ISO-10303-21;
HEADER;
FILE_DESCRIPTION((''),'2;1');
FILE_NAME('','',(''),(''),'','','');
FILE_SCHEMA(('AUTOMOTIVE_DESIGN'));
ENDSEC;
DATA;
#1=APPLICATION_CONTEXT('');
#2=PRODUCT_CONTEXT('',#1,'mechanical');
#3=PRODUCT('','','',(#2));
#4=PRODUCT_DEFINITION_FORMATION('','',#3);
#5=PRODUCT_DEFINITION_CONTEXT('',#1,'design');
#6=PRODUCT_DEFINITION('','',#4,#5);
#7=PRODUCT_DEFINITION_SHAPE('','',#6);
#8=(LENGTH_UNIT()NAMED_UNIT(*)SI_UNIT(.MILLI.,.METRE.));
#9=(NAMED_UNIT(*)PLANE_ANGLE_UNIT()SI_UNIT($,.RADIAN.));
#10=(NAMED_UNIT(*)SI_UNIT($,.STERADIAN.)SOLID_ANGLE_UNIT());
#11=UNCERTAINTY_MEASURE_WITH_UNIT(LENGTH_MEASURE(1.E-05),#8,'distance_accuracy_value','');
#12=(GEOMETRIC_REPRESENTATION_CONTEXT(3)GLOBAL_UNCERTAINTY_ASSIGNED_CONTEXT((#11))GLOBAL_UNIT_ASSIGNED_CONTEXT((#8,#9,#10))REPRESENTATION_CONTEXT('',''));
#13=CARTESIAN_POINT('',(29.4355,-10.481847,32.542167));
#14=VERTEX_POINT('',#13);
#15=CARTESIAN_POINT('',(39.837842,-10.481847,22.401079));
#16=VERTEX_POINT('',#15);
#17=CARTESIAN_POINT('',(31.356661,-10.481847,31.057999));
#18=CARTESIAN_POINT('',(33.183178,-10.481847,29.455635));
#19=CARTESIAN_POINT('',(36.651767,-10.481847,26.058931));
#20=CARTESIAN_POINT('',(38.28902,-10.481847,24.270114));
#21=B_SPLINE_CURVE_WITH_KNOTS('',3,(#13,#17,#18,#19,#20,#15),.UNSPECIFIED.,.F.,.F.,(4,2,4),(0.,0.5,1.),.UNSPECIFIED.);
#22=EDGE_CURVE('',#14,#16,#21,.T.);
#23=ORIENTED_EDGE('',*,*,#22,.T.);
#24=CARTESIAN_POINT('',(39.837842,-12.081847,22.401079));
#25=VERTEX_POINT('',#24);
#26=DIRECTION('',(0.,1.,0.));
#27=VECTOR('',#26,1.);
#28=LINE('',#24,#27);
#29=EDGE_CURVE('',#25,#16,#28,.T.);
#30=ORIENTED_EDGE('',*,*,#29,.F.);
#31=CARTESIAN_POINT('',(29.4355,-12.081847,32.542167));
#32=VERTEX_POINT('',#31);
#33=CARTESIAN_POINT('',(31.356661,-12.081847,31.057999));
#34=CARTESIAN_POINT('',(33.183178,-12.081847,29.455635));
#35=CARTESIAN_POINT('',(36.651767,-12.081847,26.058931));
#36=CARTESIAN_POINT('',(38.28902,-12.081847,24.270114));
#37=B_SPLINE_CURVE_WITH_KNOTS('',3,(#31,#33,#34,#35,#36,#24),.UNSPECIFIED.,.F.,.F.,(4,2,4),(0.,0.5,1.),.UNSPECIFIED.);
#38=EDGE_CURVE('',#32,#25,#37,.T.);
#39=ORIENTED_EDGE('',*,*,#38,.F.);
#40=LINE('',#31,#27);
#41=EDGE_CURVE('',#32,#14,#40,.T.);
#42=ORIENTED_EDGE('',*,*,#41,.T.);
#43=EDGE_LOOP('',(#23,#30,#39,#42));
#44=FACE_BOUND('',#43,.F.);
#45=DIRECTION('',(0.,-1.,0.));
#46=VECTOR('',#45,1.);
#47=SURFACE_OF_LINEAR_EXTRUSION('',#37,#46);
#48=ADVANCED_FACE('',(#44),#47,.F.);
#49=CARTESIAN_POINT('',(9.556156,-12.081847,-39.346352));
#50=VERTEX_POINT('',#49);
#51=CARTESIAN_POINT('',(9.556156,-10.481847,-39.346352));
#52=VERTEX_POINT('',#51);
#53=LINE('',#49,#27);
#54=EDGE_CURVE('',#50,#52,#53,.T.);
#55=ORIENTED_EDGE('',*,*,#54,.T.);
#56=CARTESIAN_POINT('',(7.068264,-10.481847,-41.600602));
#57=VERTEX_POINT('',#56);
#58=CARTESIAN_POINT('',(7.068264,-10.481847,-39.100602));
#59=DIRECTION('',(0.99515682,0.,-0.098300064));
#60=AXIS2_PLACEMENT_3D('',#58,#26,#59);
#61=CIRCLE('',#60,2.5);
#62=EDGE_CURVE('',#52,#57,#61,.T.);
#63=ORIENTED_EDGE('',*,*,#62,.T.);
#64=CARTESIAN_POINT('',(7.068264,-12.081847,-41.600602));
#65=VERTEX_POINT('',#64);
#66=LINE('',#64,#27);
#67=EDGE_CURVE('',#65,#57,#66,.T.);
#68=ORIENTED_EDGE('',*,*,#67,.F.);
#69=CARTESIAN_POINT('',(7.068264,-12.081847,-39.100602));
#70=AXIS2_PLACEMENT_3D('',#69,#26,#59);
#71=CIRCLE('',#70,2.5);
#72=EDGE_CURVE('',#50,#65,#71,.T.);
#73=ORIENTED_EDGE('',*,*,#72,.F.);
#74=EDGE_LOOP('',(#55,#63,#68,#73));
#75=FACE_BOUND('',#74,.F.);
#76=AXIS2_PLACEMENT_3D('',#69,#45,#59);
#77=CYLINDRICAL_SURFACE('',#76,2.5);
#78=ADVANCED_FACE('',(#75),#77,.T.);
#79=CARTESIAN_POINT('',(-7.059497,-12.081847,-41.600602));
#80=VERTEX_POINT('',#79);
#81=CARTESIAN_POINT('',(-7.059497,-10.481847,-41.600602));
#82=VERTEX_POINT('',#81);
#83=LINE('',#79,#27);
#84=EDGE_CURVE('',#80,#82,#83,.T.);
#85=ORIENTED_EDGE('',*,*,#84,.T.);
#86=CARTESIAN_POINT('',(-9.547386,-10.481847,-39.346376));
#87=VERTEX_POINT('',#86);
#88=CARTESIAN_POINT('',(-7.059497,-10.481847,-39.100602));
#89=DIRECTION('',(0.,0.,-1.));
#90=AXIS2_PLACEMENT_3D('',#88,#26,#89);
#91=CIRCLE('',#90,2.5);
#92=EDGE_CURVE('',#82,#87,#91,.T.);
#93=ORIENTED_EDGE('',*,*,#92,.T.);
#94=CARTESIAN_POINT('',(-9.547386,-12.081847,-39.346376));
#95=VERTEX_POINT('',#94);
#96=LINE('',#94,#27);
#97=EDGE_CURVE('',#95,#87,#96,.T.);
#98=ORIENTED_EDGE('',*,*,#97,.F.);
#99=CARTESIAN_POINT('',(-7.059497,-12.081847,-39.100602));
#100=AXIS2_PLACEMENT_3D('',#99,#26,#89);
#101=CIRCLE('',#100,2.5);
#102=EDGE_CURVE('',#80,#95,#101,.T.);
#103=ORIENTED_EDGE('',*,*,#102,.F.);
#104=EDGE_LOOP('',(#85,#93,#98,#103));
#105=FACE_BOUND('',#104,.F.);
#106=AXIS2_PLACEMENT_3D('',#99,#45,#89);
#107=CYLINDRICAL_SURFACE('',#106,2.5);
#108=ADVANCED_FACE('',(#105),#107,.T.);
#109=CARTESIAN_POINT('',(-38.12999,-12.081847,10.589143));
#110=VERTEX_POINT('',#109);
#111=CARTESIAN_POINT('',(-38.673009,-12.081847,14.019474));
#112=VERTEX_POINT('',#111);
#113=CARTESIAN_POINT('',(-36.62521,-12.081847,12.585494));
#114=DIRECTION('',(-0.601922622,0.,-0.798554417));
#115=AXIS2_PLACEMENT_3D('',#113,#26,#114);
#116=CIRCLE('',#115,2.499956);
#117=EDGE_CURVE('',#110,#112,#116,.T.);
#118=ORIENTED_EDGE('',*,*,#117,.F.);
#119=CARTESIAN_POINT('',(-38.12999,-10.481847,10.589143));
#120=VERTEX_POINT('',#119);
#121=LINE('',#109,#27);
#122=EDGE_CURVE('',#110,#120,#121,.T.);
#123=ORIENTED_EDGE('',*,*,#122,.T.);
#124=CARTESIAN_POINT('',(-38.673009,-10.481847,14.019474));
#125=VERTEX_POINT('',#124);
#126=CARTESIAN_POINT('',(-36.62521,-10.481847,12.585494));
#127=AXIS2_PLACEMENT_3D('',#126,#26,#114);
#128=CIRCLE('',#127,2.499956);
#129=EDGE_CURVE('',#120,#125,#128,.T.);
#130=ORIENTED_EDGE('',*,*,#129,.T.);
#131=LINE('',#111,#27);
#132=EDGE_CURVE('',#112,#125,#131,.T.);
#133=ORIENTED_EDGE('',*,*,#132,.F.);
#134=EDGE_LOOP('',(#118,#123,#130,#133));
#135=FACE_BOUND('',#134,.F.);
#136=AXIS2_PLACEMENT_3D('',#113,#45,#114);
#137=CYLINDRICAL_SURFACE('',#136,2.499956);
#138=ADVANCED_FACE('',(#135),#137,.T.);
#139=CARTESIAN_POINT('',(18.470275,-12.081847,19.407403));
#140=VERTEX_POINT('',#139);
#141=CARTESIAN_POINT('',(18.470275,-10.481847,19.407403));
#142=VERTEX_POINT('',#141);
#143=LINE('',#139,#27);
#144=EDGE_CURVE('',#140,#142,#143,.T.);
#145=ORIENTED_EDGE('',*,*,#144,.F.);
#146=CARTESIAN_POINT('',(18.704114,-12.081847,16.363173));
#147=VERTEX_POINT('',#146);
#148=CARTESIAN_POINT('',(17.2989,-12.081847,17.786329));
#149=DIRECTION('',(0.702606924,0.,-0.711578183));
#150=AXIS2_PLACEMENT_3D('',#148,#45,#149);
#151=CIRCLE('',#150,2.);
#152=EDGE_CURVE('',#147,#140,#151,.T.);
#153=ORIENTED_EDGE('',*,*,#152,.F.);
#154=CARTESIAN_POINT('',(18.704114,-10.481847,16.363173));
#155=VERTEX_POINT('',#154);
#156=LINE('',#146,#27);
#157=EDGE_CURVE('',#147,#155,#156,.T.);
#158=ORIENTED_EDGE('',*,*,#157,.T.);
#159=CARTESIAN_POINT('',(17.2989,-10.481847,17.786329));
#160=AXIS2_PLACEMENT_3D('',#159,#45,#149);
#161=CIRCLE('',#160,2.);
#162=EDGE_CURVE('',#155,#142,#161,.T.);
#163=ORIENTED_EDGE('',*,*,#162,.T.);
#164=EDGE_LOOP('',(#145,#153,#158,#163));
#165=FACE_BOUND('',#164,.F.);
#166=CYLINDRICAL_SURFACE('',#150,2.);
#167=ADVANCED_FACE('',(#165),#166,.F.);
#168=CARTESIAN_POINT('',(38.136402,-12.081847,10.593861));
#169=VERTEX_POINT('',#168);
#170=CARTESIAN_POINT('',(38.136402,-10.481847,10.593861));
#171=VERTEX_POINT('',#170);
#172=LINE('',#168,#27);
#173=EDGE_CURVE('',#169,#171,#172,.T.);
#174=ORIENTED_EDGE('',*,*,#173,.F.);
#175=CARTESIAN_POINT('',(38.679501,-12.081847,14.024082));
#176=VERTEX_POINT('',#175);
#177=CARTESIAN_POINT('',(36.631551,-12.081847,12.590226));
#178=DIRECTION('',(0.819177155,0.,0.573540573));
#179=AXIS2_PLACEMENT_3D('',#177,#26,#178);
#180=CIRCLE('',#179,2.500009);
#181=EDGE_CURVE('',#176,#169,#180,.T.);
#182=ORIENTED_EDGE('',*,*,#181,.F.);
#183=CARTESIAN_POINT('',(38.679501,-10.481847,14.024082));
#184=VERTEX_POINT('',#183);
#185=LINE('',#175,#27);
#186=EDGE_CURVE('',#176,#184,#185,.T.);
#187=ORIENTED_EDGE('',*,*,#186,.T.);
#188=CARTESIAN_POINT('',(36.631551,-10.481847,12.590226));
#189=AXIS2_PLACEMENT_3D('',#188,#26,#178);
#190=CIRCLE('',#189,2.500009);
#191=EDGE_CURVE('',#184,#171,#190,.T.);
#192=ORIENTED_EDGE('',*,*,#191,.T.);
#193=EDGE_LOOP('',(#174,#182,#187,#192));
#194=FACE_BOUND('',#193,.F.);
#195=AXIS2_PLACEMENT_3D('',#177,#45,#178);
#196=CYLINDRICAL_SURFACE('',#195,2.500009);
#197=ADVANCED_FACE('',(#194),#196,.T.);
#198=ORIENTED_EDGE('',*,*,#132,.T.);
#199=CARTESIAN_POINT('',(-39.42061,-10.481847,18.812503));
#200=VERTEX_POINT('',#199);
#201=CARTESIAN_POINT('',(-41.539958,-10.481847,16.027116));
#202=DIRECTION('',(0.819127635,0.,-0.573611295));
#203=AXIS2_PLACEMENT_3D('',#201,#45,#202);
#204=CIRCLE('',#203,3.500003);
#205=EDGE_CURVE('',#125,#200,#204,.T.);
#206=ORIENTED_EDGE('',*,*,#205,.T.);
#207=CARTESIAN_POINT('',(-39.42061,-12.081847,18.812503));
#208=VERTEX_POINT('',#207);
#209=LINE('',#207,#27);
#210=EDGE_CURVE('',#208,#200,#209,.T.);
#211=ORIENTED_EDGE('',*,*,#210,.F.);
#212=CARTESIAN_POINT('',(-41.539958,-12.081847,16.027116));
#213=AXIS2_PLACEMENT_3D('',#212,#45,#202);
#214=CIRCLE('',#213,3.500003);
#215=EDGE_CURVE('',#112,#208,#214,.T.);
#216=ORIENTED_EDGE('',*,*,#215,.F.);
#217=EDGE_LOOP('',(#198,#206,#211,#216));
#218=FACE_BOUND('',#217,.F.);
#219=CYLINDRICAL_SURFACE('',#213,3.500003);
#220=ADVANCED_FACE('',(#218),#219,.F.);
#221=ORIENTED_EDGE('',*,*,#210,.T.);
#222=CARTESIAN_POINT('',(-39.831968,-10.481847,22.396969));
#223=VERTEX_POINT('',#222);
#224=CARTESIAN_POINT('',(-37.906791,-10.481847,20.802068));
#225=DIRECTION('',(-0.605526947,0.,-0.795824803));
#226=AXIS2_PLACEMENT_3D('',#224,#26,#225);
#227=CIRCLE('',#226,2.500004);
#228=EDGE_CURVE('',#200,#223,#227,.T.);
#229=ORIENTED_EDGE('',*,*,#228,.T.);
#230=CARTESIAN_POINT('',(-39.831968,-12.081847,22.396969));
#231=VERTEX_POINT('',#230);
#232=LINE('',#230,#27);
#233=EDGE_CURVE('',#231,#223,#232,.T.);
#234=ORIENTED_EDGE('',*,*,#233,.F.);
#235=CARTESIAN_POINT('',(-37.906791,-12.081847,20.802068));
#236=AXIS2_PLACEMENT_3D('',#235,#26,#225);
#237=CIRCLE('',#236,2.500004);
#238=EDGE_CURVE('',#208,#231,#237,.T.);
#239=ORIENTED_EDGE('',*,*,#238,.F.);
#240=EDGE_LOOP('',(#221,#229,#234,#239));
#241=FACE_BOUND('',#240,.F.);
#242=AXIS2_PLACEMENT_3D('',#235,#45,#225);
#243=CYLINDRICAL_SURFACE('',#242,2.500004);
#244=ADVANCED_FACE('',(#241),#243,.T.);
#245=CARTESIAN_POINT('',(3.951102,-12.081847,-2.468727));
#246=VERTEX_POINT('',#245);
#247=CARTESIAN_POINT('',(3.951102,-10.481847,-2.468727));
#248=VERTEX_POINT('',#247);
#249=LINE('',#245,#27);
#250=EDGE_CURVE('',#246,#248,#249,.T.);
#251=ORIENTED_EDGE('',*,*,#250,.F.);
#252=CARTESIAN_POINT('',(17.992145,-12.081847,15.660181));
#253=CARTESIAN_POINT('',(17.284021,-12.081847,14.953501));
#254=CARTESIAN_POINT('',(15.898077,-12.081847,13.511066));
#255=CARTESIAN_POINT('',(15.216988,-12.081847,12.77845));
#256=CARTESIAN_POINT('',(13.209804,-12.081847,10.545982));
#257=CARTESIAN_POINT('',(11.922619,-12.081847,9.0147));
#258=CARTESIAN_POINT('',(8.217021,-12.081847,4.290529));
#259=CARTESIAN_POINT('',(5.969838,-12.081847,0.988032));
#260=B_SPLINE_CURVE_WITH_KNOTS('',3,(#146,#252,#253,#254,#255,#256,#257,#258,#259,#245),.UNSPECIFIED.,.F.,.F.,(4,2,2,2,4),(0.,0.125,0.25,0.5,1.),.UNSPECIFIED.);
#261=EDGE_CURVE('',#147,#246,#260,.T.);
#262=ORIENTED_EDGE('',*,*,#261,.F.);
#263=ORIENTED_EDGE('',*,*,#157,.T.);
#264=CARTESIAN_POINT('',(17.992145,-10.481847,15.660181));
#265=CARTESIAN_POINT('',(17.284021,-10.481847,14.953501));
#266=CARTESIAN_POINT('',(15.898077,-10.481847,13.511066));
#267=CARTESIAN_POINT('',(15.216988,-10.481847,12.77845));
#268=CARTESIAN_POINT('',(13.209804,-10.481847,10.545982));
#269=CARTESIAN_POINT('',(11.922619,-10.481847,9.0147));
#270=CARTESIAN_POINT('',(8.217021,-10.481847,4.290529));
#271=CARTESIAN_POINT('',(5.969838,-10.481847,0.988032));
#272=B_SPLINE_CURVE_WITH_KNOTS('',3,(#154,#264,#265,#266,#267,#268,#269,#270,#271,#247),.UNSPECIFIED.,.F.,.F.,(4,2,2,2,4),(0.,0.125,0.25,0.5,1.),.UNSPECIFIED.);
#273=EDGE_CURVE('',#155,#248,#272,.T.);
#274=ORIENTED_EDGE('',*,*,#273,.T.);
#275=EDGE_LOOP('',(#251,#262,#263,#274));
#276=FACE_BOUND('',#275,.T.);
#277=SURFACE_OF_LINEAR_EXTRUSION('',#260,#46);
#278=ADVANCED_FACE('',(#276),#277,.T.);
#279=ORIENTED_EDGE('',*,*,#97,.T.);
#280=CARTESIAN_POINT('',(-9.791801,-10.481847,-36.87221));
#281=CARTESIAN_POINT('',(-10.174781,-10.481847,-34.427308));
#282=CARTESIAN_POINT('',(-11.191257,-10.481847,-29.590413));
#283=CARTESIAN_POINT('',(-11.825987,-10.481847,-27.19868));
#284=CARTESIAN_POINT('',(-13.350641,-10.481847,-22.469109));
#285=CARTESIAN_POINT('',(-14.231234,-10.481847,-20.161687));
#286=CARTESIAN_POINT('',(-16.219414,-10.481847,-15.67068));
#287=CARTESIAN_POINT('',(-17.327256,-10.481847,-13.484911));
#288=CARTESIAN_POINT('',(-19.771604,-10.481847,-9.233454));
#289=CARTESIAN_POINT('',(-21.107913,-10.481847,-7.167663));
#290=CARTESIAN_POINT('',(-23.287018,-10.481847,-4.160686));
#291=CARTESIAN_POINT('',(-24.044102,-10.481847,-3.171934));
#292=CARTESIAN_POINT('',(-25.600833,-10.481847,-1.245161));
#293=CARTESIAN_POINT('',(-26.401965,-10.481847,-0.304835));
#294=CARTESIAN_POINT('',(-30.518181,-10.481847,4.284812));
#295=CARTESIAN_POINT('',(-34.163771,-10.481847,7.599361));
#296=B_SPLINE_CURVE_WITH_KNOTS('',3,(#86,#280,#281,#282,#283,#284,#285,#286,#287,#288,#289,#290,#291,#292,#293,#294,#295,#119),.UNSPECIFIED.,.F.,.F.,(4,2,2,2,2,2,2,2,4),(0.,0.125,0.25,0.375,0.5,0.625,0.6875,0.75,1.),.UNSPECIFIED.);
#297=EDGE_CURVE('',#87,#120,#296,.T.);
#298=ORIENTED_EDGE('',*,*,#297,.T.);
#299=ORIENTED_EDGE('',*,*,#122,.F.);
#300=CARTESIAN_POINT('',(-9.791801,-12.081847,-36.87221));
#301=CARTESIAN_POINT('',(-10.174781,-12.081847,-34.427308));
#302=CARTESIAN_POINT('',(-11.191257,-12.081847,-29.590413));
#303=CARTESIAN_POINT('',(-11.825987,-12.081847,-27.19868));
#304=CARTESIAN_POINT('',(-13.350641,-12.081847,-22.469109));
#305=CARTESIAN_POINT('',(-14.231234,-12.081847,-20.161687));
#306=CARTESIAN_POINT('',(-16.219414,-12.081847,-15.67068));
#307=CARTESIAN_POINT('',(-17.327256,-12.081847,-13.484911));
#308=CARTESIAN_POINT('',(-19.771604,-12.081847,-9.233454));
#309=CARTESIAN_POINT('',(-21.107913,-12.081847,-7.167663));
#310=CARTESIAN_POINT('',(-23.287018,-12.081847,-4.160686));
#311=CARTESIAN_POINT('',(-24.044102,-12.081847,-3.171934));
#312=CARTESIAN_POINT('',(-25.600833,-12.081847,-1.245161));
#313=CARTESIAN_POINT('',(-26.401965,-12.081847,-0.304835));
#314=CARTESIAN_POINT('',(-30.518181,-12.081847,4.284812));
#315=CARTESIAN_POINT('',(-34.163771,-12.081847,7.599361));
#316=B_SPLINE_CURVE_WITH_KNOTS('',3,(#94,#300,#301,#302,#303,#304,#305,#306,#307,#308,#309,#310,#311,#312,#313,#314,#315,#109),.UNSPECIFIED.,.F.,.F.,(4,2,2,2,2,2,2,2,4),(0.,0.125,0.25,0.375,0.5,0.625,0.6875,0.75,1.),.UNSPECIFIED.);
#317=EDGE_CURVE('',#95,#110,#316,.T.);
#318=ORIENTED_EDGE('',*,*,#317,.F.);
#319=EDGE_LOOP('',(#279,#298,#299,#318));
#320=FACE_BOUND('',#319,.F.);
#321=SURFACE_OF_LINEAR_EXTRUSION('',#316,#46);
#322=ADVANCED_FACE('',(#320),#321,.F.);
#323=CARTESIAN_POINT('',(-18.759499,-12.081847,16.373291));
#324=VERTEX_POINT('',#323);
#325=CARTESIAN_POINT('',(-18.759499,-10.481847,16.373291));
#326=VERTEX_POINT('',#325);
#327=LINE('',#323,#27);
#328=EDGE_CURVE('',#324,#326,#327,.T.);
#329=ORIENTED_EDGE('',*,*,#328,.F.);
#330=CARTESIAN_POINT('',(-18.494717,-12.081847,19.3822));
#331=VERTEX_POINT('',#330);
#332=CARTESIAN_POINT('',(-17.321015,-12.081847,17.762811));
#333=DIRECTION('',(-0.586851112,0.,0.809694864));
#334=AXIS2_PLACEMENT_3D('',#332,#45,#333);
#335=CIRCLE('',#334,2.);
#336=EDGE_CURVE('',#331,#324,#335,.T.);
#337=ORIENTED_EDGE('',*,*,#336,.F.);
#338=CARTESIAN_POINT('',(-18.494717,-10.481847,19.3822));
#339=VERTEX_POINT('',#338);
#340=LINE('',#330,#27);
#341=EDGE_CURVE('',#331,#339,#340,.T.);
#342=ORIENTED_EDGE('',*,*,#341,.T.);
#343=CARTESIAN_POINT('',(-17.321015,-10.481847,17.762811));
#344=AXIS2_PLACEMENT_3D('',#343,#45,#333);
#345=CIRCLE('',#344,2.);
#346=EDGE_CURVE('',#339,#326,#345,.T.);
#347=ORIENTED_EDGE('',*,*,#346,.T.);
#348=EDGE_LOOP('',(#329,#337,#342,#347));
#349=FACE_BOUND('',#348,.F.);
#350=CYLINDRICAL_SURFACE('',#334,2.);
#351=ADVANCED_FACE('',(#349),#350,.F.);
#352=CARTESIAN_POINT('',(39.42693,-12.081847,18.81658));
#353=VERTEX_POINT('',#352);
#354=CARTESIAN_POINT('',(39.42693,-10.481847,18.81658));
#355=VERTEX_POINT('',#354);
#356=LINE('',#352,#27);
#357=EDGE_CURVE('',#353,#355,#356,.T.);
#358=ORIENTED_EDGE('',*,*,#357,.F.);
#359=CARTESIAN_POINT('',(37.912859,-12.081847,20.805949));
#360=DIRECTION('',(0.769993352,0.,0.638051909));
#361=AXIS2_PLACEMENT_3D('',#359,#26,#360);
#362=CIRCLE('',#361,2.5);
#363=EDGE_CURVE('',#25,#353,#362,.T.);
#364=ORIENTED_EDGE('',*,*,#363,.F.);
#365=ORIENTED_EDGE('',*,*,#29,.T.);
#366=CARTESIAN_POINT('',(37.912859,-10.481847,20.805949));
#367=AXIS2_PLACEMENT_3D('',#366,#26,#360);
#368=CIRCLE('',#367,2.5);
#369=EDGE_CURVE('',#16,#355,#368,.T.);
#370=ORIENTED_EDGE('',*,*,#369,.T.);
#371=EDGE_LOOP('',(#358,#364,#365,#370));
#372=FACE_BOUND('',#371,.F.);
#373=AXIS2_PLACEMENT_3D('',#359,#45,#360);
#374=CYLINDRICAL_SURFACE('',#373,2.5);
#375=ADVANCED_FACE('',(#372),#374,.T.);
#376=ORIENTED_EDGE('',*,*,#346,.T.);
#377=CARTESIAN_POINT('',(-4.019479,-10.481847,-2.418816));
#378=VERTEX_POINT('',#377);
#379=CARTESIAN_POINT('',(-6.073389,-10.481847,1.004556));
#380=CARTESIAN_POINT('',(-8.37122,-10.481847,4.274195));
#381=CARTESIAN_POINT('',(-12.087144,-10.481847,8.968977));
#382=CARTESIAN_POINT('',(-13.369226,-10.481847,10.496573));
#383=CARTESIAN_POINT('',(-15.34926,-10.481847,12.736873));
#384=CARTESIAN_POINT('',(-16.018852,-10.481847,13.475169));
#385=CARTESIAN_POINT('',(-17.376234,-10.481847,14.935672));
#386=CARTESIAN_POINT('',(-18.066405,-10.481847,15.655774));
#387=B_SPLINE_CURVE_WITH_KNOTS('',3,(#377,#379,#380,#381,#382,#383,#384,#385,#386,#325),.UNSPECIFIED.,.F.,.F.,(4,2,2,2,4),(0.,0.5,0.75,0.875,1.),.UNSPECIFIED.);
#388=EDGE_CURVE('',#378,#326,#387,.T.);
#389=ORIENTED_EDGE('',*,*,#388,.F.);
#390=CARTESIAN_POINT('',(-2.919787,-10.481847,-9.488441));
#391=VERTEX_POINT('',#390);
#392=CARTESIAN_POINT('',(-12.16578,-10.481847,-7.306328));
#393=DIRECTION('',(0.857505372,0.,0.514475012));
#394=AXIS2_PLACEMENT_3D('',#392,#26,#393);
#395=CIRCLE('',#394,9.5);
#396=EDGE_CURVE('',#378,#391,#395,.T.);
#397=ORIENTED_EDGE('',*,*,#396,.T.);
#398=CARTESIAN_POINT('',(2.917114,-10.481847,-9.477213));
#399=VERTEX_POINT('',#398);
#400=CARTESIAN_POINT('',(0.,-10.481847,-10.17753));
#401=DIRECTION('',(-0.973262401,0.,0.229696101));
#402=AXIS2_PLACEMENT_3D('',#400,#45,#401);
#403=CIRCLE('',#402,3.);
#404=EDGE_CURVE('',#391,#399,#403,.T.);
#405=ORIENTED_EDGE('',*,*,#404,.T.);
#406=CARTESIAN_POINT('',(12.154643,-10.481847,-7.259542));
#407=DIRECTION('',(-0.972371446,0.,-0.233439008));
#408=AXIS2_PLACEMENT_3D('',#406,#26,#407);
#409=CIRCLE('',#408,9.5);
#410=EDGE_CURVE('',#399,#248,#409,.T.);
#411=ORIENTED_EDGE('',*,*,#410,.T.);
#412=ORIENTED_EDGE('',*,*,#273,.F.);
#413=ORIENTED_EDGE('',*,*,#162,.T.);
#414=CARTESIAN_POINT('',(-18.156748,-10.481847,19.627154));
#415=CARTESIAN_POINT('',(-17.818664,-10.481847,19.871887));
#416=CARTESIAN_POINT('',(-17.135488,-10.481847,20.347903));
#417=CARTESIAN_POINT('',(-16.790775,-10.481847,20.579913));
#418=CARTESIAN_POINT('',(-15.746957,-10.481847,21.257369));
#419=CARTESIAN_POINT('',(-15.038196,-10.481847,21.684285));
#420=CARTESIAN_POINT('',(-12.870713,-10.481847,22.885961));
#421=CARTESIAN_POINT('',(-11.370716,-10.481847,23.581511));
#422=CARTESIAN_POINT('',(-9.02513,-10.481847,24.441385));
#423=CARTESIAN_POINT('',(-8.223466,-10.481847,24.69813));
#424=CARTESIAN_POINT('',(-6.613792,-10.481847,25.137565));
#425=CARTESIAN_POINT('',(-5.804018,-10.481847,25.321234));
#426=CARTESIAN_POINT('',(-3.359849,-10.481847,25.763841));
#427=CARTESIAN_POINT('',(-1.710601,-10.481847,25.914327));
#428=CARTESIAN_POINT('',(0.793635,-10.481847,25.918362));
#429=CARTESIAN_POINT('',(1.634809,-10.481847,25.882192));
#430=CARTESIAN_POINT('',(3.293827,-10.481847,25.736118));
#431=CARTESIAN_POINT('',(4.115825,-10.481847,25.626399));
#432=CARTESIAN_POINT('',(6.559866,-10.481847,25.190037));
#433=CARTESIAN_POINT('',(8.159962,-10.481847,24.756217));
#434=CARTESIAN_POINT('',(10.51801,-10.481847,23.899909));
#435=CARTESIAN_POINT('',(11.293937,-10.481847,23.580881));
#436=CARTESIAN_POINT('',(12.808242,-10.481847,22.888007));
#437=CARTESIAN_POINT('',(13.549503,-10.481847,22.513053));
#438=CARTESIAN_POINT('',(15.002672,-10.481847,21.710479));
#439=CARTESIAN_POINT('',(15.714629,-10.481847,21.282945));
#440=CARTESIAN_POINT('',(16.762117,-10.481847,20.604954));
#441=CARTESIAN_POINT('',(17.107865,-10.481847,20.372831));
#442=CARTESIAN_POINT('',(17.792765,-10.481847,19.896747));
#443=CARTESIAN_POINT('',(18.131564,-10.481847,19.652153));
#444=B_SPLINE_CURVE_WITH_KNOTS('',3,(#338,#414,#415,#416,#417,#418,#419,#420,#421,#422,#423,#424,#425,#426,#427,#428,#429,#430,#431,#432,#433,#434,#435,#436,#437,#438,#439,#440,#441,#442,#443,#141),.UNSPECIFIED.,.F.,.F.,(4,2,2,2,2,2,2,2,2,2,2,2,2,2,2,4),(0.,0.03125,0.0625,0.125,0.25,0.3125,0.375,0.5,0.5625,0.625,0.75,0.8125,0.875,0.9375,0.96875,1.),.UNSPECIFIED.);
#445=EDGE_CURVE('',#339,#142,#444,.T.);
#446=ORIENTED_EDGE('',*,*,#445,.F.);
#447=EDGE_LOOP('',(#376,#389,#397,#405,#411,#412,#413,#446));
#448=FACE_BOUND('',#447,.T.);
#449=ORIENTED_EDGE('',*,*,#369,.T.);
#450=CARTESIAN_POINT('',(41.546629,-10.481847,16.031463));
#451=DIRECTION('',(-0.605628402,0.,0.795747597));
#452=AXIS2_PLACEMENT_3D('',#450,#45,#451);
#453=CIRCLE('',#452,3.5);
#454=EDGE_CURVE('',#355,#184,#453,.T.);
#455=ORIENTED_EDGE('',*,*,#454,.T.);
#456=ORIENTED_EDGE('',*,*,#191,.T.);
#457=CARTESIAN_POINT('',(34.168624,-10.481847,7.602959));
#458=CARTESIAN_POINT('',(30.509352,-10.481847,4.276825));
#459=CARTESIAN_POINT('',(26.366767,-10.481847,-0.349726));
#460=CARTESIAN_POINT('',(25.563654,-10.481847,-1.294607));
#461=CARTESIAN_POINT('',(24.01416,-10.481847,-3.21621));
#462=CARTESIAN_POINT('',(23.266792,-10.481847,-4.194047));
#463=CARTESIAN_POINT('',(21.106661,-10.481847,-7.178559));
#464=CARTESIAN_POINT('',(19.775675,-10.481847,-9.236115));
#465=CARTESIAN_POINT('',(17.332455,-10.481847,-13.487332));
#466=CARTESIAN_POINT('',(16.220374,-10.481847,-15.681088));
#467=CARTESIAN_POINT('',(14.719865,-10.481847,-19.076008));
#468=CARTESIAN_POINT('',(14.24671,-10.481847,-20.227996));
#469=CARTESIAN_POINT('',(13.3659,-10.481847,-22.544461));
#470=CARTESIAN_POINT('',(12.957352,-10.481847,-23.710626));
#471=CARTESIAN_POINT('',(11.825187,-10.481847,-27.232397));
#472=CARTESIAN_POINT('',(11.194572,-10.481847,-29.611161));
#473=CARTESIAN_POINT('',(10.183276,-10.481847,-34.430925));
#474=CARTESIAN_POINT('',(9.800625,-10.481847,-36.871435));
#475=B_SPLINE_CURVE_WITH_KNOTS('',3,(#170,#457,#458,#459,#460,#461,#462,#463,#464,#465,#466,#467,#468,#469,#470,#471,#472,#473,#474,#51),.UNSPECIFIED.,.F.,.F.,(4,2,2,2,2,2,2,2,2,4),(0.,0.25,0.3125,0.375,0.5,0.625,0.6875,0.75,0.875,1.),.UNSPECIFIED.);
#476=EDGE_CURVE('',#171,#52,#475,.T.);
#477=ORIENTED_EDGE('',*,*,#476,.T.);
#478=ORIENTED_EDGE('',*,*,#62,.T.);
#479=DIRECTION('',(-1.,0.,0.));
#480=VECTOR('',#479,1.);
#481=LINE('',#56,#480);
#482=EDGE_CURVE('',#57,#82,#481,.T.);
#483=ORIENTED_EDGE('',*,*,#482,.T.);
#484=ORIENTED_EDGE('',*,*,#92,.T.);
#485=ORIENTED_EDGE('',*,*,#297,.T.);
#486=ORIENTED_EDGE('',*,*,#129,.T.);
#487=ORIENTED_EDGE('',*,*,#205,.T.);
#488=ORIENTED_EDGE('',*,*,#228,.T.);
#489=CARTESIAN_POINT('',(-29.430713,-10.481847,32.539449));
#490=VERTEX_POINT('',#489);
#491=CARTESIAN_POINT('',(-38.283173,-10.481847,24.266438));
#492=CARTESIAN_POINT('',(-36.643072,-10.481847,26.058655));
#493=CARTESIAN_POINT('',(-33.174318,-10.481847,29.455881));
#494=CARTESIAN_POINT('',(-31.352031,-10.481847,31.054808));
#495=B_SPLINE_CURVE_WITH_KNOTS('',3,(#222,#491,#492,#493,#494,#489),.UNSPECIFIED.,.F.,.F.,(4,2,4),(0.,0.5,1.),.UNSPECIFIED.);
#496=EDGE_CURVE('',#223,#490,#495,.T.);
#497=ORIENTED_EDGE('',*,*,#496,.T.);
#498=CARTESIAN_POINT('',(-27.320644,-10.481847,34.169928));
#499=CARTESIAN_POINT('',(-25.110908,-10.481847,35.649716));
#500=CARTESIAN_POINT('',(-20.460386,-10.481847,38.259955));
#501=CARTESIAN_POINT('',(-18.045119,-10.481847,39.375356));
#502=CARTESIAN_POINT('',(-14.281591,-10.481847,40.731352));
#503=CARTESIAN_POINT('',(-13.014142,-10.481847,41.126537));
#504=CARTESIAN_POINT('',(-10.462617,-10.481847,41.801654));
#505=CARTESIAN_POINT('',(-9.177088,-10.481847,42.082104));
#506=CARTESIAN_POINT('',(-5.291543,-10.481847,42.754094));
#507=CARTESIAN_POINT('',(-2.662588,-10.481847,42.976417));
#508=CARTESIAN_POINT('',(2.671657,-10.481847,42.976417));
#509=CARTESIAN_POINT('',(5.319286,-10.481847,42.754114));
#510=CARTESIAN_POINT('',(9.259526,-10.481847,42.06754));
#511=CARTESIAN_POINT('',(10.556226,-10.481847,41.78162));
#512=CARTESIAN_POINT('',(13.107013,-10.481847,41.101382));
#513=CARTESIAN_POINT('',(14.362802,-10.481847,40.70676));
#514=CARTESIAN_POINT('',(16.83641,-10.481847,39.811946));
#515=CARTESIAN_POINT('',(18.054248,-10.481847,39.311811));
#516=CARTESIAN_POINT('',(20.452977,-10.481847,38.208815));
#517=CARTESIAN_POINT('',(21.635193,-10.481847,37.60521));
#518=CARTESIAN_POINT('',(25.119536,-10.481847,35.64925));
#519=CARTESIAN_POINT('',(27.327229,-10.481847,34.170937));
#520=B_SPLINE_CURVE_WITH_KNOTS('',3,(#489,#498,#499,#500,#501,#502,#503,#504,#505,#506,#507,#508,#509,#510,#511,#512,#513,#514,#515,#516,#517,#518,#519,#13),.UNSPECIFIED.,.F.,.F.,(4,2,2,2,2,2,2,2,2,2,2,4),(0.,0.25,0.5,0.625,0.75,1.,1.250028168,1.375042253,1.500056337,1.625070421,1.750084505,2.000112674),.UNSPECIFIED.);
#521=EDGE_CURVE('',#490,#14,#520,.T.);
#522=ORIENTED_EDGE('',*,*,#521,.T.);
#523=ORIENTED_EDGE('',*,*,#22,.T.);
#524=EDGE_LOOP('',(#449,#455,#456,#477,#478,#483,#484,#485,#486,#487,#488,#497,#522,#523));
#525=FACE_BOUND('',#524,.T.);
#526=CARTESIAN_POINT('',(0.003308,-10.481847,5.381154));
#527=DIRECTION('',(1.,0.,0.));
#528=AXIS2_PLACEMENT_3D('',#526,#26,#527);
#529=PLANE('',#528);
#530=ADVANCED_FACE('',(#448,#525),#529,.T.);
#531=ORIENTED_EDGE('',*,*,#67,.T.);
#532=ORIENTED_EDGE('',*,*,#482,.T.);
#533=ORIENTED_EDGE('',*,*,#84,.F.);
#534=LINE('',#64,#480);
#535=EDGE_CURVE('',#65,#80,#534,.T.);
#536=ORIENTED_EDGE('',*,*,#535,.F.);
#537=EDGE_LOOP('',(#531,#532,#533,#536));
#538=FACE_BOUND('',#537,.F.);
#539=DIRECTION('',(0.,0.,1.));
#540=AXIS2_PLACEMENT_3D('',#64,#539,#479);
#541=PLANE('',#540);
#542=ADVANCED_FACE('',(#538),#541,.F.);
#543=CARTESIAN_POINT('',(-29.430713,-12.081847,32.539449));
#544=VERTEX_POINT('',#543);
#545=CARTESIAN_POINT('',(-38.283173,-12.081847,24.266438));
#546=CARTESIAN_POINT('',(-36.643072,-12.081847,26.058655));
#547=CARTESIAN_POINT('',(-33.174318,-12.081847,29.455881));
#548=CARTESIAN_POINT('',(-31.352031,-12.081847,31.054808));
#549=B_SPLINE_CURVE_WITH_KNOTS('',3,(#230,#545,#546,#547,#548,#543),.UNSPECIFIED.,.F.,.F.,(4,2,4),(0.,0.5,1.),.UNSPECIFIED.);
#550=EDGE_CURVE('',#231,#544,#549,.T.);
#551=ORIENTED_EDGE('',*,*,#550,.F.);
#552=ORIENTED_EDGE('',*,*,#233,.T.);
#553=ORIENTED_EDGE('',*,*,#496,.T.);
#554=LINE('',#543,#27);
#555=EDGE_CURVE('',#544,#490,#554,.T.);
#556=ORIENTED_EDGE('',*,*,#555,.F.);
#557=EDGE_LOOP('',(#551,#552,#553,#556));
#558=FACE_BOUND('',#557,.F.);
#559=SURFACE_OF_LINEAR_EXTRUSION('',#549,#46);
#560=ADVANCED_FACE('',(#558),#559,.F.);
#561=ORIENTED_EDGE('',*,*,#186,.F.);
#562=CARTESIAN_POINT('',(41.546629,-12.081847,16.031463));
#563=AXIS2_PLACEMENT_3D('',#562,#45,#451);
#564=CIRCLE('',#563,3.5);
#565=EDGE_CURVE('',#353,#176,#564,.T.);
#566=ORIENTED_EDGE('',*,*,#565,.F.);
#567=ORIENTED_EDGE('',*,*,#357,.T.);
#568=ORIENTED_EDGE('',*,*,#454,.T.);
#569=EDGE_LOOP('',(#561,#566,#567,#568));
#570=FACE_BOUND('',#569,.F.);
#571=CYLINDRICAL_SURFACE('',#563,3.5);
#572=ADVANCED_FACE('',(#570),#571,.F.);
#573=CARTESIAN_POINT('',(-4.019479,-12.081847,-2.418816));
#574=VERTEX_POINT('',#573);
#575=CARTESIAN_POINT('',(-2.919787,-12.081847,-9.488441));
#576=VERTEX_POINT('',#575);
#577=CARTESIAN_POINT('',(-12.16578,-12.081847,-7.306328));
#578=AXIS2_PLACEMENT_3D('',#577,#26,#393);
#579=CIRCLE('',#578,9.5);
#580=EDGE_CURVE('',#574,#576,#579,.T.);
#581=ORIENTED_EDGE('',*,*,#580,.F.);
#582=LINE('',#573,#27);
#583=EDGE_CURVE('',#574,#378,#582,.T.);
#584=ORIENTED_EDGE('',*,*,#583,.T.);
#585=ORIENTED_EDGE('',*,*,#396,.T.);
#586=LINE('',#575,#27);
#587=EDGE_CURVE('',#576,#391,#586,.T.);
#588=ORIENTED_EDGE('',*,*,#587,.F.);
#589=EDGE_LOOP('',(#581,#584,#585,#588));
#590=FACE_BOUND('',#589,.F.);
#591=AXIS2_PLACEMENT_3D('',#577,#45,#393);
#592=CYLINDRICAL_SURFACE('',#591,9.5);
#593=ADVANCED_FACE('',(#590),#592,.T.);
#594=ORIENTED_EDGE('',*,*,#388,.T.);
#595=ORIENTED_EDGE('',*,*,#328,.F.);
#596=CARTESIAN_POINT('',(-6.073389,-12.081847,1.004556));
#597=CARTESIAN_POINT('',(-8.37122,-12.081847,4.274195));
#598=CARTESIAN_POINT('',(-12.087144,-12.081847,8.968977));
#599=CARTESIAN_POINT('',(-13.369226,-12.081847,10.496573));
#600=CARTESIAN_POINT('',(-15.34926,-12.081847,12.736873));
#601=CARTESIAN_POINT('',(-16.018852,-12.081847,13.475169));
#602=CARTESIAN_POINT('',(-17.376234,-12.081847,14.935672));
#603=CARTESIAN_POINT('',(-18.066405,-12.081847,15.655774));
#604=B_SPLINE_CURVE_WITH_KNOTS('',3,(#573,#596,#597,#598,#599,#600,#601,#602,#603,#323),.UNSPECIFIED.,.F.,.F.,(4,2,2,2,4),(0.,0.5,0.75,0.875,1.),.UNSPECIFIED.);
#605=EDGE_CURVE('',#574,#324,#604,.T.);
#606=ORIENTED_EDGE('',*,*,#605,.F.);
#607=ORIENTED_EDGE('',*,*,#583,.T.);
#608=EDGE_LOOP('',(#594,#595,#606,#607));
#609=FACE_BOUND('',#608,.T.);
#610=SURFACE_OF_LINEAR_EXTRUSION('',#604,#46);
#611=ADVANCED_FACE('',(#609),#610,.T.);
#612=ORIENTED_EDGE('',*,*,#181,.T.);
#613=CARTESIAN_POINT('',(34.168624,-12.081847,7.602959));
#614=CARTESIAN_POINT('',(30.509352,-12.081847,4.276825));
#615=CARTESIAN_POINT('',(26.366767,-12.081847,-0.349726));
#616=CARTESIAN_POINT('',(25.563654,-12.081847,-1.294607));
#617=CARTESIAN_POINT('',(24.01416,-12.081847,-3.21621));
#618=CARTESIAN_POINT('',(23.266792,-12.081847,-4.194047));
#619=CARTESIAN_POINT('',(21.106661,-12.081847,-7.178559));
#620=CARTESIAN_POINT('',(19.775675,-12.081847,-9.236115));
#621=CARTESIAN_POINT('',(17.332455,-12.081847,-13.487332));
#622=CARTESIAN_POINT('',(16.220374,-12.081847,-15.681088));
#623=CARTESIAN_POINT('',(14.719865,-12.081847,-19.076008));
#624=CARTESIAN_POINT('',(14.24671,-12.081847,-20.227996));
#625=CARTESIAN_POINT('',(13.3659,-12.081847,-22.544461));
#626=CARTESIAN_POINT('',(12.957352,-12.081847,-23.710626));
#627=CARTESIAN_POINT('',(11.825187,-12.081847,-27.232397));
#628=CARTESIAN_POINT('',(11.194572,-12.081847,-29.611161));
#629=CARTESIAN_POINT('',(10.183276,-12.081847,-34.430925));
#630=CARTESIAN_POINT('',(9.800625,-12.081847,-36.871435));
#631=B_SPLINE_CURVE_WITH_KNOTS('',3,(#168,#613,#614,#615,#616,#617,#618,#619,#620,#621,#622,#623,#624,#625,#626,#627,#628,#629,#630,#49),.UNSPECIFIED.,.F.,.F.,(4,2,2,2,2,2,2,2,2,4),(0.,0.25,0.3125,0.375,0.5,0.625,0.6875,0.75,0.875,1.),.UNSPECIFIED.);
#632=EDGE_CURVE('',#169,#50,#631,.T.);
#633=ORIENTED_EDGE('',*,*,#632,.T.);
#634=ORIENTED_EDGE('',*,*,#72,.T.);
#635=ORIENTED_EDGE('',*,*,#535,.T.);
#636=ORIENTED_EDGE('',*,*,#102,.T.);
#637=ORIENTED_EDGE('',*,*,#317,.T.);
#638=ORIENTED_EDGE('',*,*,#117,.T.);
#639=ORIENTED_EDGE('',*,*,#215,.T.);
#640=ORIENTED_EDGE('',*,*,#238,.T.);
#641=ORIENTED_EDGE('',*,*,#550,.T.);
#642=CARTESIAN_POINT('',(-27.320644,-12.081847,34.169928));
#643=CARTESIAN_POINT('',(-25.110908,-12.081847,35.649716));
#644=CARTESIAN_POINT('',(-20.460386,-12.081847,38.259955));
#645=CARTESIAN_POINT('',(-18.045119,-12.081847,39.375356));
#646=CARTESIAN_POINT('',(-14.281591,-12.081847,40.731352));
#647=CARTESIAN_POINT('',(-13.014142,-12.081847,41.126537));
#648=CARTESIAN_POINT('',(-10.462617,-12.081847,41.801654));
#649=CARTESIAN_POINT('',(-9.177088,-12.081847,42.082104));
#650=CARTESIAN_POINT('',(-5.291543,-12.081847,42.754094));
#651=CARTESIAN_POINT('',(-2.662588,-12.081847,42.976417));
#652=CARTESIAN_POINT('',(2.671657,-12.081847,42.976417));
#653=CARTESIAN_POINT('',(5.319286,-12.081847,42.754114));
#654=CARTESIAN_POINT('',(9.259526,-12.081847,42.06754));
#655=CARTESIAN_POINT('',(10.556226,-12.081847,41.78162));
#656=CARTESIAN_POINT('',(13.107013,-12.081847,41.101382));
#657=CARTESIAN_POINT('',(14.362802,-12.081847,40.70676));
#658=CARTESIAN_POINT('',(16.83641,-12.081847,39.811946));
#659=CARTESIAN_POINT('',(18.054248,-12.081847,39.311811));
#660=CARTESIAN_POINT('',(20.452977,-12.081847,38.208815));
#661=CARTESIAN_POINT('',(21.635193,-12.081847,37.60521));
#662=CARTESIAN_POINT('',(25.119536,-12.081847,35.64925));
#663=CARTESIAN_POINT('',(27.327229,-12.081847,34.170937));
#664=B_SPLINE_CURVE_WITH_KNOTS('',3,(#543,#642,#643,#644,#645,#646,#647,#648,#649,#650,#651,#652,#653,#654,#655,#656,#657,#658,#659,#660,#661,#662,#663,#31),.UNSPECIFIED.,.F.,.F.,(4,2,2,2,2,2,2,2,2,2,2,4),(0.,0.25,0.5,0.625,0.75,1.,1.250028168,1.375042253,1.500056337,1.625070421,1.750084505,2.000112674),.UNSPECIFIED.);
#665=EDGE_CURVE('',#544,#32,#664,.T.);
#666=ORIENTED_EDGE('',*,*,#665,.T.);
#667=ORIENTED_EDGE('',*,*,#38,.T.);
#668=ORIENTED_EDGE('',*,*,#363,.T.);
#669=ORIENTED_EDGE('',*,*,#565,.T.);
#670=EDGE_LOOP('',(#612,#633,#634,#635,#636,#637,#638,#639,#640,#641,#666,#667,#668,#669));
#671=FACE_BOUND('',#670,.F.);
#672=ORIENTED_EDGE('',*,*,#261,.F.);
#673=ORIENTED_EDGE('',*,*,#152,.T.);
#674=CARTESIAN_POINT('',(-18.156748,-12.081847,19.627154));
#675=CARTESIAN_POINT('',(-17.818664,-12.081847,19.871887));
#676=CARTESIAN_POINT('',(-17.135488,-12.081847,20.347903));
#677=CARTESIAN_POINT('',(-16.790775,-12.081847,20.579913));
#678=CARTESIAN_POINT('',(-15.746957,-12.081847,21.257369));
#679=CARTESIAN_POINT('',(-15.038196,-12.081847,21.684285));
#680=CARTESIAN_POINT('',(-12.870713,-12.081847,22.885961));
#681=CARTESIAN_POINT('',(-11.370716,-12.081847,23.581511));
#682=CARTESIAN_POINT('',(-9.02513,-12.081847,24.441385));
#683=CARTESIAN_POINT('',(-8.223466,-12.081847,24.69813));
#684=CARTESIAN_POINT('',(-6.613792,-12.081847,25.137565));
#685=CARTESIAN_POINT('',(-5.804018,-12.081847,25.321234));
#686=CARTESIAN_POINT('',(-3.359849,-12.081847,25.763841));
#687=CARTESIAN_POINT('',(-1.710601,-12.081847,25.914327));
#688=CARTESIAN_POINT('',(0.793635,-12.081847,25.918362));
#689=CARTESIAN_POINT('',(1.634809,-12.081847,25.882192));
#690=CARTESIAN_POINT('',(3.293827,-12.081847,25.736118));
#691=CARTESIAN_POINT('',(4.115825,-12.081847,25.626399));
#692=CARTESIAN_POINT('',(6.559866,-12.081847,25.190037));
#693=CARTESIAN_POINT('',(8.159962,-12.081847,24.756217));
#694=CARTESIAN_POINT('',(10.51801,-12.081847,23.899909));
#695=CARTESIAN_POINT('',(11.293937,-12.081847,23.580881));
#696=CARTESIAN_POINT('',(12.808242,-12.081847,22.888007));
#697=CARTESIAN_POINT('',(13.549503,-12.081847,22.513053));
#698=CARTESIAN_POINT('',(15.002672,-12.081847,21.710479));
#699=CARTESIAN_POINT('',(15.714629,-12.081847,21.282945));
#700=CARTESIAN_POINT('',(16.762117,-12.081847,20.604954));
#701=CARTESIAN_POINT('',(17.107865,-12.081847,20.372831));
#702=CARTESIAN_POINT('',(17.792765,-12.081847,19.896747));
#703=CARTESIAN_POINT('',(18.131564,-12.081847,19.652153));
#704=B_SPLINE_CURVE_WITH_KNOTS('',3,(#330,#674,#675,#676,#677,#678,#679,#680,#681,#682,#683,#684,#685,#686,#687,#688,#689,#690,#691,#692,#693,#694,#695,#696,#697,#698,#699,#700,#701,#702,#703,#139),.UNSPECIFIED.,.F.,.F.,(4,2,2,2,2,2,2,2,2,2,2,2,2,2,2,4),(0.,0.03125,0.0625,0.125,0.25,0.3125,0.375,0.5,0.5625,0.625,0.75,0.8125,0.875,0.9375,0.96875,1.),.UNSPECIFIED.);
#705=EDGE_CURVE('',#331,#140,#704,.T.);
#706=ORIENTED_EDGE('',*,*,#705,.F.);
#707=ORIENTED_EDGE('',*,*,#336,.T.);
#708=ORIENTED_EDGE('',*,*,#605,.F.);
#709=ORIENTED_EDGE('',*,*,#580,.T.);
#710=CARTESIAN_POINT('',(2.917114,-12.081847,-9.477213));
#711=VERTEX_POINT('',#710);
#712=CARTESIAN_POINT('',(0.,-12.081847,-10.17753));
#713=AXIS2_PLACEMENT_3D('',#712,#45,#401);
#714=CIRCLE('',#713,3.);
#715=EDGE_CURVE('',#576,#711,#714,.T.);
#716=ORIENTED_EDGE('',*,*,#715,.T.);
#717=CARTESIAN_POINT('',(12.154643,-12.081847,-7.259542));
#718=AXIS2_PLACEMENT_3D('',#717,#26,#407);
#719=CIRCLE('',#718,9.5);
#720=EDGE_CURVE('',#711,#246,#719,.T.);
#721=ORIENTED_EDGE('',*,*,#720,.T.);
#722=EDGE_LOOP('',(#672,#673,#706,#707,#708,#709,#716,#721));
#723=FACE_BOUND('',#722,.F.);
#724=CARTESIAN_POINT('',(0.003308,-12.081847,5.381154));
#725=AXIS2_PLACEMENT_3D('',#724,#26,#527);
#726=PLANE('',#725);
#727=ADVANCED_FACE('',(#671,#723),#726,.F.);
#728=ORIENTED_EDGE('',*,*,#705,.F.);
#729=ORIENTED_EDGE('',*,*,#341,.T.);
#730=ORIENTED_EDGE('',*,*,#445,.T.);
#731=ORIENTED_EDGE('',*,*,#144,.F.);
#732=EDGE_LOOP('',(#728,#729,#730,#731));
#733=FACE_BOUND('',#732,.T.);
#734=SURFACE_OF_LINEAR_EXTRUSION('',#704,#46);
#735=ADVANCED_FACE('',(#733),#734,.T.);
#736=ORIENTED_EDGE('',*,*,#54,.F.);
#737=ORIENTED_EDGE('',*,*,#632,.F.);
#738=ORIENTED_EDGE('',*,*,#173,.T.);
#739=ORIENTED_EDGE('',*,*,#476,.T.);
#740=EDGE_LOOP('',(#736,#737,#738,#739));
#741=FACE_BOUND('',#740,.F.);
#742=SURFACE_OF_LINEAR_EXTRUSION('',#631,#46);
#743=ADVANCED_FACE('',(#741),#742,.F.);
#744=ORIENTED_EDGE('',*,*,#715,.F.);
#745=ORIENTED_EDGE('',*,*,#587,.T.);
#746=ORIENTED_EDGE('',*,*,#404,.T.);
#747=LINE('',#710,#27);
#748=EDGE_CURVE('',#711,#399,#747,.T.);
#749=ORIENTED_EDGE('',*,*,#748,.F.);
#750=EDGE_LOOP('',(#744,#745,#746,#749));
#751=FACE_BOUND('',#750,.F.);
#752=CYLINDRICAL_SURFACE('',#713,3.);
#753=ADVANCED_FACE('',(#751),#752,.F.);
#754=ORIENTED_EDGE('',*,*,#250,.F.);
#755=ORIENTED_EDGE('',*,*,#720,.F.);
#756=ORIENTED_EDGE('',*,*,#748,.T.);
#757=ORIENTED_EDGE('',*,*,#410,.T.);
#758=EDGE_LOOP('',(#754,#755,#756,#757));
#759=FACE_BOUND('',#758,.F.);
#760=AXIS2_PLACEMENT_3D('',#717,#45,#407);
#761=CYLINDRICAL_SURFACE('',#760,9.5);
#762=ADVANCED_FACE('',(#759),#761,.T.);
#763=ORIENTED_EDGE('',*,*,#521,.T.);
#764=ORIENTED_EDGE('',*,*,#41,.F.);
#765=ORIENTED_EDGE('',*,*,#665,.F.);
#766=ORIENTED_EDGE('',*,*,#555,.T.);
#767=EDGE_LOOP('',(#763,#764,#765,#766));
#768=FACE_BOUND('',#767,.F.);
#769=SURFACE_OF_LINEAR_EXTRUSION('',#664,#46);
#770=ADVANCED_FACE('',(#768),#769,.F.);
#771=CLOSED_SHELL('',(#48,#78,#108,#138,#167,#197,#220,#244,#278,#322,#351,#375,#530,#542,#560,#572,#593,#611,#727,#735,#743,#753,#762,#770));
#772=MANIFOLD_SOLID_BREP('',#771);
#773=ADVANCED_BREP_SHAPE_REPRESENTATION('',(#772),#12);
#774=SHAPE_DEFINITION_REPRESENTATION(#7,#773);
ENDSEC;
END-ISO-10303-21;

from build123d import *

# Parameters (mm, degrees)
BOSS_EXTRUDE1_DEPTH = 1.6


with BuildPart() as part:
    # Sketch1 → Boss-Extrude1 (new body)
    with BuildSketch(Plane(origin=(0, -12.08184695, 0), x_dir=(1, 0, 0), z_dir=(0, 1, 0))):
        with BuildLine():
            Line((7.068263687, 41.600601737), (-7.059496612, 41.600601737))
            ThreePointArc((-7.059496612, 41.600601737), (-8.738121808, 40.953226214), (-9.547386312, 39.346375699))
            add(Edge.make_bspline(
                [(-9.547386312, 39.346375699), (-9.791801042, 36.872209768), (-10.174780597, 34.427308106), (-11.191257392, 29.590412993), (-11.825986881, 27.198679788), (-13.350641046, 22.469109457), (-14.231234092, 20.161687267), (-16.219413971, 15.670679569), (-17.327255507, 13.484910955), (-19.77160384, 9.233454443), (-21.107913128, 7.167662826), (-23.287017843, 4.160685833), (-24.044102201, 3.171933948), (-25.600832941, 1.24516113), (-26.401965146, 0.30483539), (-30.518180843, -4.284811803), (-34.16377144, -7.599360565), (-38.1299904, -10.589142877)],
                knots=[0, 0, 0, 0, 0.125, 0.125, 0.25, 0.25, 0.375, 0.375, 0.5, 0.5, 0.625, 0.625, 0.6875, 0.6875, 0.75, 0.75, 1, 1, 1, 1], degree=3))
            ThreePointArc((-38.1299904, -10.589142877), (-39.094420308, -12.194619809), (-38.673009405, -14.019474345))
            ThreePointArc((-38.673009405, -14.019474345), (-38.081769626, -16.566513233), (-39.42061036, -18.812503006))
            ThreePointArc((-39.42061036, -18.812503006), (-40.390492541, -20.517035077), (-39.831968266, -22.396969027))
            add(Edge.make_bspline(
                [(-39.831968266, -22.396969027), (-38.283172708, -24.266437753), (-36.643071519, -26.058655413), (-33.174318098, -29.455880725), (-31.352030623, -31.054807711), (-29.43071323, -32.539448808)],
                knots=[0, 0, 0, 0, 0.5, 0.5, 1, 1, 1, 1], degree=3))
            add(Edge.make_bspline(
                [(-29.43071323, -32.539448808), (-27.320643605, -34.16992841), (-25.110907511, -35.649716155), (-20.460386406, -38.259954595), (-18.045119378, -39.375356082), (-14.281591244, -40.731351728), (-13.014141837, -41.126537478), (-10.462616624, -41.801653768), (-9.177088412, -42.082104136), (-5.291542564, -42.754094477), (-2.662588178, -42.976416738), (0.004383999, -42.976416738)],
                knots=[0, 0, 0, 0, 0.25, 0.25, 0.5, 0.5, 0.625, 0.625, 0.75, 0.75, 1, 1, 1, 1], degree=3))
            add(Edge.make_bspline(
                [(0.004383999, -42.976416738), (2.671656674, -42.976416738), (5.319285582, -42.754113953), (9.259525556, -42.067540092), (10.556225677, -41.781619701), (13.107012662, -41.101381696), (14.362802441, -40.706759914), (16.836410325, -39.811946458), (18.054248498, -39.311810579), (20.452976989, -38.208815379), (21.635192506, -37.605209835), (25.119535884, -35.649249598), (27.327228533, -34.170936704), (29.435499854, -32.542167102)],
                knots=[0, 0, 0, 0, 0.25, 0.25, 0.375, 0.375, 0.5, 0.5, 0.625, 0.625, 0.75, 0.75, 1, 1, 1, 1], degree=3))
            add(Edge.make_bspline(
                [(29.435499854, -32.542167102), (31.356661411, -31.057999079), (33.183178175, -29.455634698), (36.651766782, -26.058931244), (38.289020033, -24.270113959), (39.837842074, -22.401078618)],
                knots=[0, 0, 0, 0, 0.5, 0.5, 1, 1, 1, 1], degree=3))
            ThreePointArc((39.837842074, -22.401078618), (40.396592097, -20.52122374), (39.426929699, -18.816579853))
            ThreePointArc((39.426929699, -18.816579853), (38.088433126, -16.570796705), (38.67950123, -14.024082445))
            ThreePointArc((38.67950123, -14.024082445), (39.100802356, -12.199274218), (38.136401576, -10.593861236))
            add(Edge.make_bspline(
                [(38.136401576, -10.593861236), (34.168623759, -7.602959081), (30.509352448, -4.27682522), (26.366767099, 0.349726066), (25.563654335, 1.294607123), (24.01416015, 3.216210378), (23.26679186, 4.194046735), (21.106661228, 7.178559095), (19.77567512, 9.236115194), (17.332454935, 13.487332018), (16.22037441, 15.681088283), (14.719864957, 19.076008242), (14.246709963, 20.227996379), (13.365900278, 22.544460809), (12.957352394, 23.710625613), (11.82518653, 27.232396594), (11.194571791, 29.611161178), (10.183276163, 34.430925487), (9.800625177, 36.871434644), (9.556155738, 39.346351897)],
                knots=[0, 0, 0, 0, 0.25, 0.25, 0.3125, 0.3125, 0.375, 0.375, 0.5, 0.5, 0.625, 0.625, 0.6875, 0.6875, 0.75, 0.75, 0.875, 0.875, 1, 1, 1, 1], degree=3))
            ThreePointArc((9.556155738, 39.346351897), (8.746897744, 40.953218184), (7.068263687, 41.600601737))
        make_face()
        with BuildLine():
            ThreePointArc((2.917114338, 9.477212595), (2.756374668, 5.872981189), (3.951101823, 2.468726748))
            add(Edge.make_bspline(
                [(18.704113686, -16.363172993), (17.992145269, -15.660180667), (17.284020826, -14.953500566), (15.898077439, -13.511066303), (15.216988025, -12.778449721), (13.209804316, -10.545981706), (11.922619235, -9.014699706), (8.217020706, -4.29052926), (5.969838206, -0.988031562), (3.951101823, 2.468726748)],
                knots=[0, 0, 0, 0, 0.125, 0.125, 0.25, 0.25, 0.5, 0.5, 1, 1, 1, 1], degree=3))
            ThreePointArc((18.704113686, -16.363172993), (19.293025471, -17.93950559), (18.470275007, -19.407403142))
            add(Edge.make_bspline(
                [(-18.494716896, -19.382200256), (-18.156747928, -19.627153591), (-17.818664146, -19.871886584), (-17.13548839, -20.34790294), (-16.790775019, -20.579912893), (-15.746956693, -21.257369006), (-15.038196301, -21.684285132), (-12.870713002, -22.885961299), (-11.370716058, -23.581511117), (-9.025130071, -24.441385157), (-8.223466165, -24.698129558), (-6.613792479, -25.137565491), (-5.80401834, -25.321234472), (-3.359849379, -25.763841436), (-1.710600897, -25.914327465), (0.793635304, -25.91836178), (1.634808791, -25.88219159), (3.293827112, -25.736118011), (4.115824788, -25.626398759), (6.559865603, -25.190037003), (8.159961985, -24.756217145), (10.518010173, -23.899908948), (11.293937095, -23.580881464), (12.808242427, -22.888006864), (13.549502528, -22.513052805), (15.00267183, -21.710479018), (15.714628815, -21.282945031), (16.762116652, -20.60495391), (17.107865076, -20.372830636), (17.792765058, -19.896747026), (18.131563633, -19.652153318), (18.470275007, -19.407403142)],
                knots=[0, 0, 0, 0, 0.03125, 0.03125, 0.0625, 0.0625, 0.125, 0.125, 0.25, 0.25, 0.3125, 0.3125, 0.375, 0.375, 0.5, 0.5, 0.5625, 0.5625, 0.625, 0.625, 0.75, 0.75, 0.8125, 0.8125, 0.875, 0.875, 0.9375, 0.9375, 0.96875, 0.96875, 1, 1, 1, 1], degree=3))
            ThreePointArc((-18.494716896, -19.382200256), (-19.313315476, -17.938131693), (-18.759498896, -16.373291495))
            add(Edge.make_bspline(
                [(-4.019478984, 2.418815751), (-6.073388857, -1.004555589), (-8.371219964, -4.274194721), (-12.087144101, -8.96897705), (-13.369226154, -10.496572825), (-15.349259798, -12.736872688), (-16.018851728, -13.47516887), (-17.376233604, -14.935672121), (-18.066404983, -15.655773734), (-18.759498896, -16.373291495)],
                knots=[0, 0, 0, 0, 0.5, 0.5, 0.75, 0.75, 0.875, 0.875, 1, 1, 1, 1], degree=3))
            ThreePointArc((-4.019478984, 2.418815751), (-2.778667962, 5.846147783), (-2.919787203, 9.488441319))
            ThreePointArc((-2.919787203, 9.488441319), (0.005771232, 13.17752407), (2.917114338, 9.477212595))
        make_face(mode=Mode.SUBTRACT)
    extrude(amount=BOSS_EXTRUDE1_DEPTH)


solid = part.part
